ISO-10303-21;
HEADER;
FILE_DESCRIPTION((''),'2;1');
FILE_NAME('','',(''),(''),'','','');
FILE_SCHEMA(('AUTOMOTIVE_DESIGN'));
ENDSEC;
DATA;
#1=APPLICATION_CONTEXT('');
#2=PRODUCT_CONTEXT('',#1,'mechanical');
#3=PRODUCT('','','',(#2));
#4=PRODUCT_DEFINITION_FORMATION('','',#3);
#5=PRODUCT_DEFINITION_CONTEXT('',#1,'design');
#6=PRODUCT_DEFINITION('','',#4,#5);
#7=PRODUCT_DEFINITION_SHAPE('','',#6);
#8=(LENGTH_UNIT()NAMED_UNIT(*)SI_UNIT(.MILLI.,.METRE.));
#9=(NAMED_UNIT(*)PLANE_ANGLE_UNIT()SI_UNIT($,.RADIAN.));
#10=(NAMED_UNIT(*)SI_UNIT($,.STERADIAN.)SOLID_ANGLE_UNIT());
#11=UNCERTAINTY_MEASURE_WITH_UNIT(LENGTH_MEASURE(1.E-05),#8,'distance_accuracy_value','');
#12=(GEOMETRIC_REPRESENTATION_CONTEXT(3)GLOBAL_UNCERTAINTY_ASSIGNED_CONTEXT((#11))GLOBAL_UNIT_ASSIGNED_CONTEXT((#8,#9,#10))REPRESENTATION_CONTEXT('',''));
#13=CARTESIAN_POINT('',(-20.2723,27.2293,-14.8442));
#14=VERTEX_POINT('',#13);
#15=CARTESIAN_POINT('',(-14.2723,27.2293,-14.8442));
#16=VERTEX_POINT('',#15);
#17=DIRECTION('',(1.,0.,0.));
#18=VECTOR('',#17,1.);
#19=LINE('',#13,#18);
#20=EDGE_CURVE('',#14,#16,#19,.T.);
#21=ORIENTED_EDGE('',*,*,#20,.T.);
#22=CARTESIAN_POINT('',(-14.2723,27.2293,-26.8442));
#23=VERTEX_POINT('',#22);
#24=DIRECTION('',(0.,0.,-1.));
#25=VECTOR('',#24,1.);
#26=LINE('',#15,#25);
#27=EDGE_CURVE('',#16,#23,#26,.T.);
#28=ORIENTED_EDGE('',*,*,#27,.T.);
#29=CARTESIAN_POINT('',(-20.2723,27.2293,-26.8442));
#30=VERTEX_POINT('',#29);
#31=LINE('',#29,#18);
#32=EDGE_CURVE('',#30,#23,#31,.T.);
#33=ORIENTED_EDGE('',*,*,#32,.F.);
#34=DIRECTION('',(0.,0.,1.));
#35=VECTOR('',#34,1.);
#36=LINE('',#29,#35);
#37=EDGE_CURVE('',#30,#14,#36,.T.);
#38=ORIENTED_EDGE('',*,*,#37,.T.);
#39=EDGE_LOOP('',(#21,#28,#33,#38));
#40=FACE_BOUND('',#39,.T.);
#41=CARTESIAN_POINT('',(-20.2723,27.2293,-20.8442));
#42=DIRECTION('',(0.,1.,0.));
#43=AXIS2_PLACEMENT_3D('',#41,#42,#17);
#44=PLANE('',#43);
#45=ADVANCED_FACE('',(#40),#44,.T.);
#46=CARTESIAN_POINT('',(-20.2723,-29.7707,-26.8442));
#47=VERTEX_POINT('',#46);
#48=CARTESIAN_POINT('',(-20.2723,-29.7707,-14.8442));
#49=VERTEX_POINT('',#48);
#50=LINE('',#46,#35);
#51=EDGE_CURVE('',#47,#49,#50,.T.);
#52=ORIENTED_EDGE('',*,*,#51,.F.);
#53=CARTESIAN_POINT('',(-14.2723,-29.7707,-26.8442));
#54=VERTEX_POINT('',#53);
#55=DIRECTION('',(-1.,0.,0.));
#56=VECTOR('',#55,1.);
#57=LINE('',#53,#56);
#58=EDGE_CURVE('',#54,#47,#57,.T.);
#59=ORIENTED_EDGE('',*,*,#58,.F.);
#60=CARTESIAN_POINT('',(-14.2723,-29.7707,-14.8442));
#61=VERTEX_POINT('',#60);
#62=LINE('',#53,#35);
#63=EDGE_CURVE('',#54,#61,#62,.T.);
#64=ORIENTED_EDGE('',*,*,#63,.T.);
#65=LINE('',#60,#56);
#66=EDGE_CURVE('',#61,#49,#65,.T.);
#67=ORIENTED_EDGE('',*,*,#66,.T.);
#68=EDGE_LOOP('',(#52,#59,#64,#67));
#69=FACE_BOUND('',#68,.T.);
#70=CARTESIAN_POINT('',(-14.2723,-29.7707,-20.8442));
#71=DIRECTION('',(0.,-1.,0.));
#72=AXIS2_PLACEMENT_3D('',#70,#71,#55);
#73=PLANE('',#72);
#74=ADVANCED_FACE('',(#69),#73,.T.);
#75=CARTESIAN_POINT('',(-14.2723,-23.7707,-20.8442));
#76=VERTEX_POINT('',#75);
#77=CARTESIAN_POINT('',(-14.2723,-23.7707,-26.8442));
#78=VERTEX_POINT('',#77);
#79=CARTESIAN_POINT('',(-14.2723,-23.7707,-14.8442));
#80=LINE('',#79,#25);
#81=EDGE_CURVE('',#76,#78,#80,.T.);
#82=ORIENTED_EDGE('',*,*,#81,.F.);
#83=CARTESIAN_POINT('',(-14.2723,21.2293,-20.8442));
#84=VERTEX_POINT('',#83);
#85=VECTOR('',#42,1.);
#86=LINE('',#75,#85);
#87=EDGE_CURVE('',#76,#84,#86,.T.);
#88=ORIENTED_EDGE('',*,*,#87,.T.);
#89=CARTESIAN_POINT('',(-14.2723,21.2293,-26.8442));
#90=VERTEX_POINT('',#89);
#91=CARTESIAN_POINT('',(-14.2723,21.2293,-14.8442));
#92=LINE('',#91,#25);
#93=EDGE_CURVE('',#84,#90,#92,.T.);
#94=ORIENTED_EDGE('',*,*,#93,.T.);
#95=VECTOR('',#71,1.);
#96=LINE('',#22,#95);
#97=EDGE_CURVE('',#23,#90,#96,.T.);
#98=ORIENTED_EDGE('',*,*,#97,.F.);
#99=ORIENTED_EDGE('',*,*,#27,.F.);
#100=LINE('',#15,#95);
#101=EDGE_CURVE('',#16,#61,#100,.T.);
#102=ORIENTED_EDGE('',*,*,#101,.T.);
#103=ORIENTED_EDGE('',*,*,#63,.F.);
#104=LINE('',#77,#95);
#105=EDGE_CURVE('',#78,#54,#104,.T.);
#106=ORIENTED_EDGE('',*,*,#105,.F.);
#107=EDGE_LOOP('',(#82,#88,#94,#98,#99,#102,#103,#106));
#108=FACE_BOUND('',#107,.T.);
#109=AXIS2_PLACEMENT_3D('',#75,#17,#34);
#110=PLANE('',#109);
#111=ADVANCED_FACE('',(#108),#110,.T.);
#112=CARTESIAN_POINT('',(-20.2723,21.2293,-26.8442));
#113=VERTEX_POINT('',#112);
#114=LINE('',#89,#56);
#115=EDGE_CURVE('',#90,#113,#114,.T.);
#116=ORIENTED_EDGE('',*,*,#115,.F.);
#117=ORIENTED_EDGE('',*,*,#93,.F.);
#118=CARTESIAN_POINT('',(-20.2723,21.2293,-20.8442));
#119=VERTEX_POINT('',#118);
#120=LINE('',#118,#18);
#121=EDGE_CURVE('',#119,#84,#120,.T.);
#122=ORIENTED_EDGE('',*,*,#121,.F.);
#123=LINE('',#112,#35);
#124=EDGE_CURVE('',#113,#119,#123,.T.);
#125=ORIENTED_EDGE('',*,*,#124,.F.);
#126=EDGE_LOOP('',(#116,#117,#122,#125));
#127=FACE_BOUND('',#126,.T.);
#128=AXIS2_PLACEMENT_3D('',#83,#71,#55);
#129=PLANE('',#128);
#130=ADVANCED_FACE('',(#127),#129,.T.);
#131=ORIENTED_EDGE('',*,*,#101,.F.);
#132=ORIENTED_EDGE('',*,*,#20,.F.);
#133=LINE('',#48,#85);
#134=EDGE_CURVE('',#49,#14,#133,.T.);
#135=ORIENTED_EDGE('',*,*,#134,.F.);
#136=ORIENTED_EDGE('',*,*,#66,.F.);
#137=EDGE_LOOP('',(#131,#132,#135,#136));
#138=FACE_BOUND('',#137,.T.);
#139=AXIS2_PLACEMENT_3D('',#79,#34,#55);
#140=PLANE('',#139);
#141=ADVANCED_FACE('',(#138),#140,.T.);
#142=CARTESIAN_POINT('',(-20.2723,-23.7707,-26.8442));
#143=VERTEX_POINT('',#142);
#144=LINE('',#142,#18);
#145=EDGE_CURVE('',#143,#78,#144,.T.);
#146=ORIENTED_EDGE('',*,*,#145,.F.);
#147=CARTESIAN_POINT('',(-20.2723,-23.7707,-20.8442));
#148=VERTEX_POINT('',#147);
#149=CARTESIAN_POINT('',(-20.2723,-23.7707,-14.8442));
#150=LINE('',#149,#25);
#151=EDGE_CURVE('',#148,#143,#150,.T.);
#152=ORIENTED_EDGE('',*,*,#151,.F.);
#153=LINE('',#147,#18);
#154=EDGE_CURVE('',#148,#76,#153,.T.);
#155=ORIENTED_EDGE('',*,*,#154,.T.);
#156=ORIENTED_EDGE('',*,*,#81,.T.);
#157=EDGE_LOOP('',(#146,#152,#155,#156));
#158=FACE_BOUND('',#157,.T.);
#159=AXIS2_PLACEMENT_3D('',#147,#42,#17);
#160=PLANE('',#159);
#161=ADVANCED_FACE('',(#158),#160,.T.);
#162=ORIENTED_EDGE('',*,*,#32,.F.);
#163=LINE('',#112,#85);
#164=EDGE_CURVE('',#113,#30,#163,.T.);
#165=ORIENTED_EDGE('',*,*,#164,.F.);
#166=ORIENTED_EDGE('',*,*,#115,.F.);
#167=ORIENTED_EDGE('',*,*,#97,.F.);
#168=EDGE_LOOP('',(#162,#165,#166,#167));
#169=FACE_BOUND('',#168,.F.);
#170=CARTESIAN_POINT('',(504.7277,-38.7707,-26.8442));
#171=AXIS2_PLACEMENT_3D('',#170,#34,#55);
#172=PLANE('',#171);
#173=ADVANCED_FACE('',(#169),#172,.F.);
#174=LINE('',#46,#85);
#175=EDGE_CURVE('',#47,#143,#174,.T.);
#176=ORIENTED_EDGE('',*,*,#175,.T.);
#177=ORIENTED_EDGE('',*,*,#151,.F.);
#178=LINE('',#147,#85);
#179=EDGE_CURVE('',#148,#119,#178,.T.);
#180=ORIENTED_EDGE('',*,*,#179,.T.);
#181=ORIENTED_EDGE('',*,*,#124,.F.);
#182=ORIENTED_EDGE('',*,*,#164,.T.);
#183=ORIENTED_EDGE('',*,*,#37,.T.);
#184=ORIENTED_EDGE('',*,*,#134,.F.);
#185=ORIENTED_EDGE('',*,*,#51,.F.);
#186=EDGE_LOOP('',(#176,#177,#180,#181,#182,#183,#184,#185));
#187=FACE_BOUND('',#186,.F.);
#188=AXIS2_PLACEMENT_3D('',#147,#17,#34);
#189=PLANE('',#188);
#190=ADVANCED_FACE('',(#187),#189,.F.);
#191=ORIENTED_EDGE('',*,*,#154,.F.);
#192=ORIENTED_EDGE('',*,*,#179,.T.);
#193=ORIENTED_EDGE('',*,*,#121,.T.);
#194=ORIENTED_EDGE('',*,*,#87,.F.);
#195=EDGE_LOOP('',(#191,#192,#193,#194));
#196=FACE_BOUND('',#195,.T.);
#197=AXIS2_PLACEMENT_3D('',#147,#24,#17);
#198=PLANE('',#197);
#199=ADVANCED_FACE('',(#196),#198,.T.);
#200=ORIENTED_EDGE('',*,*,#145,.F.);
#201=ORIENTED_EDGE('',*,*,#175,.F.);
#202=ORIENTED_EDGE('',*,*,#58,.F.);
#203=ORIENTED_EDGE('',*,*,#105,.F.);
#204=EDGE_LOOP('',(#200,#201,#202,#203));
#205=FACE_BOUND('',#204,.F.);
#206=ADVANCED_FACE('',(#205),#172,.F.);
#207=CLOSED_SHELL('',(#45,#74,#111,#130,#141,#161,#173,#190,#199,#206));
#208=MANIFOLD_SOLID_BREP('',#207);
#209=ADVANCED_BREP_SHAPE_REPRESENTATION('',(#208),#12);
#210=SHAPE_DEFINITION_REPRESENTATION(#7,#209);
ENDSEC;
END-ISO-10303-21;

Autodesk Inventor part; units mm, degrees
ref_plane "YZ Plane" through (0, 0, 0) normal (1, 0, 0) x (0, 1, 0)
ref_plane "XZ Plane" through (0, 0, 0) normal (0, 1, 0) x (-1, 0, 0)
ref_plane "XY Plane" through (0, 0, 0) normal (0, 0, 1) x (1, 0, 0)
ref_plane "Work Plane1" through (504.7277, -38.7707, -20.8442) normal (0, 0, 1) x (-1, 0, 0)
sketch "Sketch1" plane through (504.7277, -38.7707, -20.8442) normal (0, 0, 1) x (-1, 0, 0)
  line L0 (-28.8, -55.1) -> (-22.6, -55.1) projected
  line L1 (-28.8, -72) -> (-28.8, -55.1) projected
  line L2 (-28.8, -72) -> (262.8, -72) projected
  line L3 (262.8, -72) -> (262.8, -78) projected
  line L4 (262.8, -78) -> (-28.8, -78) projected
  line L5 (-28.8, -94.9) -> (-28.8, -78) projected
  line L6 (-13.3962, -94.9) -> (-28.8, -94.9) projected
  line L7 (-8.2, -97.9) -> (-13.3962, -94.9) projected
  line L8 (-8.2, -94.9) -> (-8.2, -97.9) projected
  arc A0 (-6.2, -94.9) -> (-8.2, -94.9) centre (-7.2, -94.9) ccw projected
  line L9 (-6.2, -97.9) -> (-6.2, -94.9) projected
  line L10 (-1.0038, -94.9) -> (-6.2, -97.9) projected
  line L11 (15.4038, -94.9) -> (-1.0038, -94.9) projected
  line L12 (20.6, -97.9) -> (15.4038, -94.9) projected
  line L13 (20.6, -94.9) -> (20.6, -97.9) projected
  arc A1 (22.6, -94.9) -> (20.6, -94.9) centre (21.6, -94.9) ccw projected
  line L14 (22.6, -97.9) -> (22.6, -94.9) projected
  line L15 (27.7962, -94.9) -> (22.6, -97.9) projected
  line L16 (44.2038, -94.9) -> (27.7962, -94.9) projected
  line L17 (49.4, -97.9) -> (44.2038, -94.9) projected
  line L18 (49.4, -94.9) -> (49.4, -97.9) projected
  arc A2 (51.4, -94.9) -> (49.4, -94.9) centre (50.4, -94.9) ccw projected
  line L19 (51.4, -97.9) -> (51.4, -94.9) projected
  line L20 (56.5962, -94.9) -> (51.4, -97.9) projected
  line L21 (73.0038, -94.9) -> (56.5962, -94.9) projected
  line L22 (78.2, -97.9) -> (73.0038, -94.9) projected
  line L23 (78.2, -94.9) -> (78.2, -97.9) projected
  arc A3 (80.2, -94.9) -> (78.2, -94.9) centre (79.2, -94.9) ccw projected
  line L24 (80.2, -97.9) -> (80.2, -94.9) projected
  line L25 (85.3962, -94.9) -> (80.2, -97.9) projected
  line L26 (101.8038, -94.9) -> (85.3962, -94.9) projected
  line L27 (107, -97.9) -> (101.8038, -94.9) projected
  line L28 (107, -94.9) -> (107, -97.9) projected
  arc A4 (109, -94.9) -> (107, -94.9) centre (108, -94.9) ccw projected
  line L29 (109, -97.9) -> (109, -94.9) projected
  line L30 (114.1962, -94.9) -> (109, -97.9) projected
  line L31 (130.6038, -94.9) -> (114.1962, -94.9) projected
  line L32 (135.8, -97.9) -> (130.6038, -94.9) projected
  line L33 (135.8, -94.9) -> (135.8, -97.9) projected
  arc A5 (137.8, -94.9) -> (135.8, -94.9) centre (136.8, -94.9) ccw projected
  line L34 (137.8, -97.9) -> (137.8, -94.9) projected
  line L35 (142.9962, -94.9) -> (137.8, -97.9) projected
  line L36 (159.4038, -94.9) -> (142.9962, -94.9) projected
  line L37 (164.6, -97.9) -> (159.4038, -94.9) projected
  line L38 (164.6, -94.9) -> (164.6, -97.9) projected
  arc A6 (166.6, -94.9) -> (164.6, -94.9) centre (165.6, -94.9) ccw projected
  line L39 (166.6, -97.9) -> (166.6, -94.9) projected
  line L40 (171.7962, -94.9) -> (166.6, -97.9) projected
  line L41 (188.2038, -94.9) -> (171.7962, -94.9) projected
  line L42 (193.4, -97.9) -> (188.2038, -94.9) projected
  line L43 (193.4, -94.9) -> (193.4, -97.9) projected
  arc A7 (195.4, -94.9) -> (193.4, -94.9) centre (194.4, -94.9) ccw projected
  line L44 (195.4, -97.9) -> (195.4, -94.9) projected
  line L45 (200.5962, -94.9) -> (195.4, -97.9) projected
  line L46 (217.0038, -94.9) -> (200.5962, -94.9) projected
  line L47 (222.2, -97.9) -> (217.0038, -94.9) projected
  line L48 (222.2, -94.9) -> (222.2, -97.9) projected
  arc A8 (224.2, -94.9) -> (222.2, -94.9) centre (223.2, -94.9) ccw projected
  line L49 (224.2, -97.9) -> (224.2, -94.9) projected
  line L50 (229.3962, -94.9) -> (224.2, -97.9) projected
  line L51 (245.8038, -94.9) -> (229.3962, -94.9) projected
  line L52 (251, -97.9) -> (245.8038, -94.9) projected
  line L53 (251, -94.9) -> (251, -97.9) projected
  arc A9 (253, -94.9) -> (251, -94.9) centre (252, -94.9) ccw projected
  line L54 (253, -97.9) -> (253, -94.9) projected
  line L55 (258.1962, -94.9) -> (253, -97.9) projected
  line L56 (274.6038, -94.9) -> (258.1962, -94.9) projected
  line L57 (279.8, -97.9) -> (274.6038, -94.9) projected
  line L58 (279.8, -94.9) -> (279.8, -97.9) projected
  arc A10 (281.8, -94.9) -> (279.8, -94.9) centre (280.8, -94.9) ccw projected
  line L59 (281.8, -97.9) -> (281.8, -94.9) projected
  line L60 (286.9962, -94.9) -> (281.8, -97.9) projected
  line L61 (303.4038, -94.9) -> (286.9962, -94.9) projected
  line L62 (308.6, -97.9) -> (303.4038, -94.9) projected
  line L63 (308.6, -94.9) -> (308.6, -97.9) projected
  arc A11 (310.6, -94.9) -> (308.6, -94.9) centre (309.6, -94.9) ccw projected
  line L64 (310.6, -97.9) -> (310.6, -94.9) projected
  line L65 (315.7962, -94.9) -> (310.6, -97.9) projected
  line L66 (332.2038, -94.9) -> (315.7962, -94.9) projected
  line L67 (337.4, -97.9) -> (332.2038, -94.9) projected
  line L68 (337.4, -94.9) -> (337.4, -97.9) projected
  arc A12 (339.4, -94.9) -> (337.4, -94.9) centre (338.4, -94.9) ccw projected
  line L69 (339.4, -97.9) -> (339.4, -94.9) projected
  line L70 (344.5962, -94.9) -> (339.4, -97.9) projected
  line L71 (361.0038, -94.9) -> (344.5962, -94.9) projected
  line L72 (366.2, -97.9) -> (361.0038, -94.9) projected
  line L73 (366.2, -94.9) -> (366.2, -97.9) projected
  arc A13 (368.2, -94.9) -> (366.2, -94.9) centre (367.2, -94.9) ccw projected
  line L74 (368.2, -97.9) -> (368.2, -94.9) projected
  line L75 (373.3962, -94.9) -> (368.2, -97.9) projected
  line L76 (389.8038, -94.9) -> (373.3962, -94.9) projected
  line L77 (395, -97.9) -> (389.8038, -94.9) projected
  line L78 (395, -94.9) -> (395, -97.9) projected
  arc A14 (397, -94.9) -> (395, -94.9) centre (396, -94.9) ccw projected
  line L79 (397, -97.9) -> (397, -94.9) projected
  line L80 (402.1962, -94.9) -> (397, -97.9) projected
  line L81 (418.6038, -94.9) -> (402.1962, -94.9) projected
  line L82 (423.8, -97.9) -> (418.6038, -94.9) projected
  line L83 (423.8, -94.9) -> (423.8, -97.9) projected
  arc A15 (425.8, -94.9) -> (423.8, -94.9) centre (424.8, -94.9) ccw projected
  line L84 (425.8, -97.9) -> (425.8, -94.9) projected
  line L85 (430.9962, -94.9) -> (425.8, -97.9) projected
  line L86 (447.4038, -94.9) -> (430.9962, -94.9) projected
  line L87 (452.6, -97.9) -> (447.4038, -94.9) projected
  line L88 (452.6, -94.9) -> (452.6, -97.9) projected
  arc A16 (454.6, -94.9) -> (452.6, -94.9) centre (453.6, -94.9) ccw projected
  line L89 (454.6, -97.9) -> (454.6, -94.9) projected
  line L90 (459.7962, -94.9) -> (454.6, -97.9) projected
  line L91 (476.2038, -94.9) -> (459.7962, -94.9) projected
  line L92 (481.4, -97.9) -> (476.2038, -94.9) projected
  line L93 (481.4, -94.9) -> (481.4, -97.9) projected
  arc A17 (483.4, -94.9) -> (481.4, -94.9) centre (482.4, -94.9) ccw projected
  line L94 (483.4, -97.9) -> (483.4, -94.9) projected
  line L95 (488.5962, -94.9) -> (483.4, -97.9) projected
  line L96 (505.0038, -94.9) -> (488.5962, -94.9) projected
  line L97 (510.2, -97.9) -> (505.0038, -94.9) projected
  line L98 (510.2, -94.9) -> (510.2, -97.9) projected
  arc A18 (512.2, -94.9) -> (510.2, -94.9) centre (511.2, -94.9) ccw projected
  line L99 (512.2, -97.9) -> (512.2, -94.9) projected
  line L100 (517.3962, -94.9) -> (512.2, -97.9) projected
  line L101 (533.8038, -94.9) -> (517.3962, -94.9) projected
  line L102 (539, -97.9) -> (533.8038, -94.9) projected
  line L103 (539, -94.9) -> (539, -97.9) projected
  arc A19 (541, -94.9) -> (539, -94.9) centre (540, -94.9) ccw projected
  line L104 (541, -97.9) -> (541, -94.9) projected
  line L105 (546.1962, -94.9) -> (541, -97.9) projected
  line L106 (546.1962, -94.9) -> (554.4, -94.9) projected
  line L107 (554.4, -55.1) -> (554.4, -94.9) projected
  line L108 (531.7962, -55.1) -> (554.4, -55.1) projected
  line L109 (526.6, -52.1) -> (531.7962, -55.1) projected
  line L110 (526.6, -55.1) -> (526.6, -52.1) projected
  arc A20 (524.6, -55.1) -> (526.6, -55.1) centre (525.6, -55.1) ccw projected
  line L111 (524.6, -52.1) -> (524.6, -55.1) projected
  line L112 (519.4038, -55.1) -> (524.6, -52.1) projected
  line L113 (502.9962, -55.1) -> (519.4038, -55.1) projected
  line L114 (497.8, -52.1) -> (502.9962, -55.1) projected
  line L115 (497.8, -55.1) -> (497.8, -52.1) projected
  arc A21 (495.8, -55.1) -> (497.8, -55.1) centre (496.8, -55.1) ccw projected
  line L116 (495.8, -52.1) -> (495.8, -55.1) projected
  line L117 (490.6038, -55.1) -> (495.8, -52.1) projected
  line L118 (474.1962, -55.1) -> (490.6038, -55.1) projected
  line L119 (469, -52.1) -> (474.1962, -55.1) projected
  line L120 (469, -55.1) -> (469, -52.1) projected
  arc A22 (467, -55.1) -> (469, -55.1) centre (468, -55.1) ccw projected
  line L121 (467, -52.1) -> (467, -55.1) projected
  line L122 (461.8038, -55.1) -> (467, -52.1) projected
  line L123 (445.3962, -55.1) -> (461.8038, -55.1) projected
  line L124 (440.2, -52.1) -> (445.3962, -55.1) projected
  line L125 (440.2, -55.1) -> (440.2, -52.1) projected
  arc A23 (438.2, -55.1) -> (440.2, -55.1) centre (439.2, -55.1) ccw projected
  line L126 (438.2, -52.1) -> (438.2, -55.1) projected
  line L127 (433.0038, -55.1) -> (438.2, -52.1) projected
  line L128 (416.5962, -55.1) -> (433.0038, -55.1) projected
  line L129 (411.4, -52.1) -> (416.5962, -55.1) projected
  line L130 (411.4, -55.1) -> (411.4, -52.1) projected
  arc A24 (409.4, -55.1) -> (411.4, -55.1) centre (410.4, -55.1) ccw projected
  line L131 (409.4, -52.1) -> (409.4, -55.1) projected
  line L132 (404.2038, -55.1) -> (409.4, -52.1) projected
  line L133 (387.7962, -55.1) -> (404.2038, -55.1) projected
  line L134 (382.6, -52.1) -> (387.7962, -55.1) projected
  line L135 (382.6, -55.1) -> (382.6, -52.1) projected
  arc A25 (380.6, -55.1) -> (382.6, -55.1) centre (381.6, -55.1) ccw projected
  line L136 (380.6, -52.1) -> (380.6, -55.1) projected
  line L137 (375.4038, -55.1) -> (380.6, -52.1) projected
  line L138 (358.9962, -55.1) -> (375.4038, -55.1) projected
  line L139 (353.8, -52.1) -> (358.9962, -55.1) projected
  line L140 (353.8, -55.1) -> (353.8, -52.1) projected
  arc A26 (351.8, -55.1) -> (353.8, -55.1) centre (352.8, -55.1) ccw projected
  line L141 (351.8, -52.1) -> (351.8, -55.1) projected
  line L142 (346.6038, -55.1) -> (351.8, -52.1) projected
  line L143 (330.1962, -55.1) -> (346.6038, -55.1) projected
  line L144 (325, -52.1) -> (330.1962, -55.1) projected
  line L145 (325, -55.1) -> (325, -52.1) projected
  arc A27 (323, -55.1) -> (325, -55.1) centre (324, -55.1) ccw projected
  line L146 (323, -52.1) -> (323, -55.1) projected
  line L147 (317.8038, -55.1) -> (323, -52.1) projected
  line L148 (301.3962, -55.1) -> (317.8038, -55.1) projected
  line L149 (296.2, -52.1) -> (301.3962, -55.1) projected
  line L150 (296.2, -55.1) -> (296.2, -52.1) projected
  arc A28 (294.2, -55.1) -> (296.2, -55.1) centre (295.2, -55.1) ccw projected
  line L151 (294.2, -52.1) -> (294.2, -55.1) projected
  line L152 (289.0038, -55.1) -> (294.2, -52.1) projected
  line L153 (272.5962, -55.1) -> (289.0038, -55.1) projected
  line L154 (267.4, -52.1) -> (272.5962, -55.1) projected
  line L155 (267.4, -55.1) -> (267.4, -52.1) projected
  arc A29 (265.4, -55.1) -> (267.4, -55.1) centre (266.4, -55.1) ccw projected
  line L156 (265.4, -52.1) -> (265.4, -55.1) projected
  line L157 (260.2038, -55.1) -> (265.4, -52.1) projected
  line L158 (243.7962, -55.1) -> (260.2038, -55.1) projected
  line L159 (238.6, -52.1) -> (243.7962, -55.1) projected
  line L160 (238.6, -55.1) -> (238.6, -52.1) projected
  arc A30 (236.6, -55.1) -> (238.6, -55.1) centre (237.6, -55.1) ccw projected
  line L161 (236.6, -52.1) -> (236.6, -55.1) projected
  line L162 (231.4038, -55.1) -> (236.6, -52.1) projected
  line L163 (214.9962, -55.1) -> (231.4038, -55.1) projected
  line L164 (209.8, -52.1) -> (214.9962, -55.1) projected
  line L165 (209.8, -55.1) -> (209.8, -52.1) projected
  arc A31 (207.8, -55.1) -> (209.8, -55.1) centre (208.8, -55.1) ccw projected
  line L166 (207.8, -52.1) -> (207.8, -55.1) projected
  line L167 (202.6038, -55.1) -> (207.8, -52.1) projected
  line L168 (186.1962, -55.1) -> (202.6038, -55.1) projected
  line L169 (181, -52.1) -> (186.1962, -55.1) projected
  line L170 (181, -55.1) -> (181, -52.1) projected
  arc A32 (179, -55.1) -> (181, -55.1) centre (180, -55.1) ccw projected
  line L171 (179, -52.1) -> (179, -55.1) projected
  line L172 (173.8038, -55.1) -> (179, -52.1) projected
  line L173 (157.3962, -55.1) -> (173.8038, -55.1) projected
  line L174 (152.2, -52.1) -> (157.3962, -55.1) projected
  line L175 (152.2, -55.1) -> (152.2, -52.1) projected
  arc A33 (150.2, -55.1) -> (152.2, -55.1) centre (151.2, -55.1) ccw projected
  line L176 (150.2, -52.1) -> (150.2, -55.1) projected
  line L177 (145.0038, -55.1) -> (150.2, -52.1) projected
  line L178 (128.5962, -55.1) -> (145.0038, -55.1) projected
  line L179 (123.4, -52.1) -> (128.5962, -55.1) projected
  line L180 (123.4, -55.1) -> (123.4, -52.1) projected
  arc A34 (121.4, -55.1) -> (123.4, -55.1) centre (122.4, -55.1) ccw projected
  line L181 (121.4, -52.1) -> (121.4, -55.1) projected
  line L182 (116.2038, -55.1) -> (121.4, -52.1) projected
  line L183 (99.7962, -55.1) -> (116.2038, -55.1) projected
  line L184 (94.6, -52.1) -> (99.7962, -55.1) projected
  line L185 (94.6, -55.1) -> (94.6, -52.1) projected
  arc A35 (92.6, -55.1) -> (94.6, -55.1) centre (93.6, -55.1) ccw projected
  line L186 (92.6, -52.1) -> (92.6, -55.1) projected
  line L187 (87.4038, -55.1) -> (92.6, -52.1) projected
  line L188 (70.9962, -55.1) -> (87.4038, -55.1) projected
  line L189 (65.8, -52.1) -> (70.9962, -55.1) projected
  line L190 (65.8, -55.1) -> (65.8, -52.1) projected
  arc A36 (63.8, -55.1) -> (65.8, -55.1) centre (64.8, -55.1) ccw projected
  line L191 (63.8, -52.1) -> (63.8, -55.1) projected
  line L192 (58.6038, -55.1) -> (63.8, -52.1) projected
  line L193 (42.1962, -55.1) -> (58.6038, -55.1) projected
  line L194 (37, -52.1) -> (42.1962, -55.1) projected
  line L195 (37, -55.1) -> (37, -52.1) projected
  arc A37 (35, -55.1) -> (37, -55.1) centre (36, -55.1) ccw projected
  line L196 (35, -52.1) -> (35, -55.1) projected
  line L197 (29.8038, -55.1) -> (35, -52.1) projected
  line L198 (13.3962, -55.1) -> (29.8038, -55.1) projected
  line L199 (8.2, -52.1) -> (13.3962, -55.1) projected
  line L200 (8.2, -55.1) -> (8.2, -52.1) projected
  arc A38 (6.2, -55.1) -> (8.2, -55.1) centre (7.2, -55.1) ccw projected
  line L201 (6.2, -52.1) -> (6.2, -55.1) projected
  line L202 (1.0038, -55.1) -> (6.2, -52.1) projected
  line L203 (-15.4038, -55.1) -> (1.0038, -55.1) projected
  line L204 (-20.6, -52.1) -> (-15.4038, -55.1) projected
  line L205 (-20.6, -55.1) -> (-20.6, -52.1) projected
  arc A39 (-22.6, -55.1) -> (-20.6, -55.1) centre (-21.6, -55.1) ccw projected
  line L206 (525, -66) -> (519, -66) projected
  line L207 (519, -66) -> (519, -60) projected
  line L208 (519, -60) -> (525, -60) projected
  line L209 (525, -60) -> (525, -66) projected
  line L210 (525, -84) -> (525, -90) projected
  line L211 (525, -90) -> (519, -90) projected
  line L212 (519, -90) -> (519, -84) projected
  line L213 (519, -84) -> (525, -84) projected
  line L214 (467.4, -66) -> (461.4, -66) projected
  line L215 (461.4, -66) -> (461.4, -60) projected
  line L216 (461.4, -60) -> (467.4, -60) projected
  line L217 (467.4, -60) -> (467.4, -66) projected
  line L218 (467.4, -84) -> (467.4, -90) projected
  line L219 (467.4, -90) -> (461.4, -90) projected
  line L220 (461.4, -90) -> (461.4, -84) projected
  line L221 (461.4, -84) -> (467.4, -84) projected
  line L222 (409.8, -66) -> (403.8, -66) projected
  line L223 (403.8, -66) -> (403.8, -60) projected
  line L224 (403.8, -60) -> (409.8, -60) projected
  line L225 (409.8, -60) -> (409.8, -66) projected
  line L226 (409.8, -84) -> (409.8, -90) projected
  line L227 (409.8, -90) -> (403.8, -90) projected
  line L228 (403.8, -90) -> (403.8, -84) projected
  line L229 (403.8, -84) -> (409.8, -84) projected
  line L230 (352.2, -66) -> (346.2, -66) projected
  line L231 (346.2, -66) -> (346.2, -60) projected
  line L232 (346.2, -60) -> (352.2, -60) projected
  line L233 (352.2, -60) -> (352.2, -66) projected
  line L234 (352.2, -84) -> (352.2, -90) projected
  line L235 (352.2, -90) -> (346.2, -90) projected
  line L236 (346.2, -90) -> (346.2, -84) projected
  line L237 (346.2, -84) -> (352.2, -84) projected
  line L238 (294.6, -66) -> (288.6, -66) projected
  line L239 (288.6, -66) -> (288.6, -60) projected
  line L240 (288.6, -60) -> (294.6, -60) projected
  line L241 (294.6, -60) -> (294.6, -66) projected
  line L242 (294.6, -84) -> (294.6, -90) projected
  line L243 (294.6, -90) -> (288.6, -90) projected
  line L244 (288.6, -90) -> (288.6, -84) projected
  line L245 (288.6, -84) -> (294.6, -84) projected
  line L246 (237, -66) -> (231, -66) projected
  line L247 (231, -66) -> (231, -60) projected
  line L248 (231, -60) -> (237, -60) projected
  line L249 (237, -60) -> (237, -66) projected
  line L250 (237, -84) -> (237, -90) projected
  line L251 (237, -90) -> (231, -90) projected
  line L252 (231, -90) -> (231, -84) projected
  line L253 (231, -84) -> (237, -84) projected
  line L254 (179.4, -66) -> (173.4, -66) projected
  line L255 (173.4, -66) -> (173.4, -60) projected
  line L256 (173.4, -60) -> (179.4, -60) projected
  line L257 (179.4, -60) -> (179.4, -66) projected
  line L258 (179.4, -84) -> (179.4, -90) projected
  line L259 (179.4, -90) -> (173.4, -90) projected
  line L260 (173.4, -90) -> (173.4, -84) projected
  line L261 (173.4, -84) -> (179.4, -84) projected
  line L262 (121.8, -66) -> (115.8, -66) projected
  line L263 (115.8, -66) -> (115.8, -60) projected
  line L264 (115.8, -60) -> (121.8, -60) projected
  line L265 (121.8, -60) -> (121.8, -66) projected
  line L266 (121.8, -84) -> (121.8, -90) projected
  line L267 (121.8, -90) -> (115.8, -90) projected
  line L268 (115.8, -90) -> (115.8, -84) projected
  line L269 (115.8, -84) -> (121.8, -84) projected
  line L270 (64.2, -66) -> (58.2, -66) projected
  line L271 (58.2, -66) -> (58.2, -60) projected
  line L272 (58.2, -60) -> (64.2, -60) projected
  line L273 (64.2, -60) -> (64.2, -66) projected
  line L274 (64.2, -84) -> (64.2, -90) projected
  line L275 (64.2, -90) -> (58.2, -90) projected
  line L276 (58.2, -90) -> (58.2, -84) projected
  line L277 (58.2, -84) -> (64.2, -84) projected
  line L278 (6.6, -66) -> (0.6, -66) projected
  line L279 (0.6, -66) -> (0.6, -60) projected
  line L280 (0.6, -60) -> (6.6, -60) projected
  line L281 (6.6, -60) -> (6.6, -66) projected
  line L282 (6.6, -84) -> (6.6, -90) projected
  line L283 (6.6, -90) -> (0.6, -90) projected
  line L284 (0.6, -90) -> (0.6, -84) projected
  line L285 (0.6, -84) -> (6.6, -84) projected
  line L286 (-28.8, 19.9) -> (-22.6, 19.9) projected
  line L287 (-28.8, 3) -> (-28.8, 19.9) projected
  line L288 (-28.8, 3) -> (262.8, 3) projected
  line L289 (262.8, 3) -> (262.8, -3) projected
  line L290 (262.8, -3) -> (-28.8, -3) projected
  line L291 (-28.8, -19.9) -> (-28.8, -3) projected
  line L292 (-13.3962, -19.9) -> (-28.8, -19.9) projected
  line L293 (-8.2, -22.9) -> (-13.3962, -19.9) projected
  line L294 (-8.2, -19.9) -> (-8.2, -22.9) projected
  arc A40 (-6.2, -19.9) -> (-8.2, -19.9) centre (-7.2, -19.9) ccw projected
  line L295 (-6.2, -22.9) -> (-6.2, -19.9) projected
  line L296 (-1.0038, -19.9) -> (-6.2, -22.9) projected
  line L297 (15.4038, -19.9) -> (-1.0038, -19.9) projected
  line L298 (20.6, -22.9) -> (15.4038, -19.9) projected
  line L299 (20.6, -19.9) -> (20.6, -22.9) projected
  arc A41 (22.6, -19.9) -> (20.6, -19.9) centre (21.6, -19.9) ccw projected
  line L300 (22.6, -22.9) -> (22.6, -19.9) projected
  line L301 (27.7962, -19.9) -> (22.6, -22.9) projected
  line L302 (44.2038, -19.9) -> (27.7962, -19.9) projected
  line L303 (49.4, -22.9) -> (44.2038, -19.9) projected
  line L304 (49.4, -19.9) -> (49.4, -22.9) projected
  arc A42 (51.4, -19.9) -> (49.4, -19.9) centre (50.4, -19.9) ccw projected
  line L305 (51.4, -22.9) -> (51.4, -19.9) projected
  line L306 (56.5962, -19.9) -> (51.4, -22.9) projected
  line L307 (73.0038, -19.9) -> (56.5962, -19.9) projected
  line L308 (78.2, -22.9) -> (73.0038, -19.9) projected
  line L309 (78.2, -19.9) -> (78.2, -22.9) projected
  arc A43 (80.2, -19.9) -> (78.2, -19.9) centre (79.2, -19.9) ccw projected
  line L310 (80.2, -22.9) -> (80.2, -19.9) projected
  line L311 (85.3962, -19.9) -> (80.2, -22.9) projected
  line L312 (101.8038, -19.9) -> (85.3962, -19.9) projected
  line L313 (107, -22.9) -> (101.8038, -19.9) projected
  line L314 (107, -19.9) -> (107, -22.9) projected
  arc A44 (109, -19.9) -> (107, -19.9) centre (108, -19.9) ccw projected
  line L315 (109, -22.9) -> (109, -19.9) projected
  line L316 (114.1962, -19.9) -> (109, -22.9) projected
  line L317 (130.6038, -19.9) -> (114.1962, -19.9) projected
  line L318 (135.8, -22.9) -> (130.6038, -19.9) projected
  line L319 (135.8, -19.9) -> (135.8, -22.9) projected
  arc A45 (137.8, -19.9) -> (135.8, -19.9) centre (136.8, -19.9) ccw projected
  line L320 (137.8, -22.9) -> (137.8, -19.9) projected
  line L321 (142.9962, -19.9) -> (137.8, -22.9) projected
  line L322 (159.4038, -19.9) -> (142.9962, -19.9) projected
  line L323 (164.6, -22.9) -> (159.4038, -19.9) projected
  line L324 (164.6, -19.9) -> (164.6, -22.9) projected
  arc A46 (166.6, -19.9) -> (164.6, -19.9) centre (165.6, -19.9) ccw projected
  line L325 (166.6, -22.9) -> (166.6, -19.9) projected
  line L326 (171.7962, -19.9) -> (166.6, -22.9) projected
  line L327 (188.2038, -19.9) -> (171.7962, -19.9) projected
  line L328 (193.4, -22.9) -> (188.2038, -19.9) projected
  line L329 (193.4, -19.9) -> (193.4, -22.9) projected
  arc A47 (195.4, -19.9) -> (193.4, -19.9) centre (194.4, -19.9) ccw projected
  line L330 (195.4, -22.9) -> (195.4, -19.9) projected
  line L331 (200.5962, -19.9) -> (195.4, -22.9) projected
  line L332 (217.0038, -19.9) -> (200.5962, -19.9) projected
  line L333 (222.2, -22.9) -> (217.0038, -19.9) projected
  line L334 (222.2, -19.9) -> (222.2, -22.9) projected
  arc A48 (224.2, -19.9) -> (222.2, -19.9) centre (223.2, -19.9) ccw projected
  line L335 (224.2, -22.9) -> (224.2, -19.9) projected
  line L336 (229.3962, -19.9) -> (224.2, -22.9) projected
  line L337 (245.8038, -19.9) -> (229.3962, -19.9) projected
  line L338 (251, -22.9) -> (245.8038, -19.9) projected
  line L339 (251, -19.9) -> (251, -22.9) projected
  arc A49 (253, -19.9) -> (251, -19.9) centre (252, -19.9) ccw projected
  line L340 (253, -22.9) -> (253, -19.9) projected
  line L341 (258.1962, -19.9) -> (253, -22.9) projected
  line L342 (274.6038, -19.9) -> (258.1962, -19.9) projected
  line L343 (279.8, -22.9) -> (274.6038, -19.9) projected
  line L344 (279.8, -19.9) -> (279.8, -22.9) projected
  arc A50 (281.8, -19.9) -> (279.8, -19.9) centre (280.8, -19.9) ccw projected
  line L345 (281.8, -22.9) -> (281.8, -19.9) projected
  line L346 (286.9962, -19.9) -> (281.8, -22.9) projected
  line L347 (303.4038, -19.9) -> (286.9962, -19.9) projected
  line L348 (308.6, -22.9) -> (303.4038, -19.9) projected
  line L349 (308.6, -19.9) -> (308.6, -22.9) projected
  arc A51 (310.6, -19.9) -> (308.6, -19.9) centre (309.6, -19.9) ccw projected
  line L350 (310.6, -22.9) -> (310.6, -19.9) projected
  line L351 (315.7962, -19.9) -> (310.6, -22.9) projected
  line L352 (332.2038, -19.9) -> (315.7962, -19.9) projected
  line L353 (337.4, -22.9) -> (332.2038, -19.9) projected
  line L354 (337.4, -19.9) -> (337.4, -22.9) projected
  arc A52 (339.4, -19.9) -> (337.4, -19.9) centre (338.4, -19.9) ccw projected
  line L355 (339.4, -22.9) -> (339.4, -19.9) projected
  line L356 (344.5962, -19.9) -> (339.4, -22.9) projected
  line L357 (361.0038, -19.9) -> (344.5962, -19.9) projected
  line L358 (366.2, -22.9) -> (361.0038, -19.9) projected
  line L359 (366.2, -19.9) -> (366.2, -22.9) projected
  arc A53 (368.2, -19.9) -> (366.2, -19.9) centre (367.2, -19.9) ccw projected
  line L360 (368.2, -22.9) -> (368.2, -19.9) projected
  line L361 (373.3962, -19.9) -> (368.2, -22.9) projected
  line L362 (389.8038, -19.9) -> (373.3962, -19.9) projected
  line L363 (395, -22.9) -> (389.8038, -19.9) projected
  line L364 (395, -19.9) -> (395, -22.9) projected
  arc A54 (397, -19.9) -> (395, -19.9) centre (396, -19.9) ccw projected
  line L365 (397, -22.9) -> (397, -19.9) projected
  line L366 (402.1962, -19.9) -> (397, -22.9) projected
  line L367 (418.6038, -19.9) -> (402.1962, -19.9) projected
  line L368 (423.8, -22.9) -> (418.6038, -19.9) projected
  line L369 (423.8, -19.9) -> (423.8, -22.9) projected
  arc A55 (425.8, -19.9) -> (423.8, -19.9) centre (424.8, -19.9) ccw projected
  line L370 (425.8, -22.9) -> (425.8, -19.9) projected
  line L371 (430.9962, -19.9) -> (425.8, -22.9) projected
  line L372 (447.4038, -19.9) -> (430.9962, -19.9) projected
  line L373 (452.6, -22.9) -> (447.4038, -19.9) projected
  line L374 (452.6, -19.9) -> (452.6, -22.9) projected
  arc A56 (454.6, -19.9) -> (452.6, -19.9) centre (453.6, -19.9) ccw projected
  line L375 (454.6, -22.9) -> (454.6, -19.9) projected
  line L376 (459.7962, -19.9) -> (454.6, -22.9) projected
  line L377 (476.2038, -19.9) -> (459.7962, -19.9) projected
  line L378 (481.4, -22.9) -> (476.2038, -19.9) projected
  line L379 (481.4, -19.9) -> (481.4, -22.9) projected
  arc A57 (483.4, -19.9) -> (481.4, -19.9) centre (482.4, -19.9) ccw projected
  line L380 (483.4, -22.9) -> (483.4, -19.9) projected
  line L381 (488.5962, -19.9) -> (483.4, -22.9) projected
  line L382 (505.0038, -19.9) -> (488.5962, -19.9) projected
  line L383 (510.2, -22.9) -> (505.0038, -19.9) projected
  line L384 (510.2, -19.9) -> (510.2, -22.9) projected
  arc A58 (512.2, -19.9) -> (510.2, -19.9) centre (511.2, -19.9) ccw projected
  line L385 (512.2, -22.9) -> (512.2, -19.9) projected
  line L386 (517.3962, -19.9) -> (512.2, -22.9) projected
  line L387 (533.8038, -19.9) -> (517.3962, -19.9) projected
  line L388 (539, -22.9) -> (533.8038, -19.9) projected
  line L389 (539, -19.9) -> (539, -22.9) projected
  arc A59 (541, -19.9) -> (539, -19.9) centre (540, -19.9) ccw projected
  line L390 (541, -22.9) -> (541, -19.9) projected
  line L391 (546.1962, -19.9) -> (541, -22.9) projected
  line L392 (546.1962, -19.9) -> (554.4, -19.9) projected
  line L393 (554.4, 19.9) -> (554.4, -19.9) projected
  line L394 (531.7962, 19.9) -> (554.4, 19.9) projected
  line L395 (526.6, 22.9) -> (531.7962, 19.9) projected
  line L396 (526.6, 19.9) -> (526.6, 22.9) projected
  arc A60 (524.6, 19.9) -> (526.6, 19.9) centre (525.6, 19.9) ccw projected
  line L397 (524.6, 22.9) -> (524.6, 19.9) projected
  line L398 (519.4038, 19.9) -> (524.6, 22.9) projected
  line L399 (502.9962, 19.9) -> (519.4038, 19.9) projected
  line L400 (497.8, 22.9) -> (502.9962, 19.9) projected
  line L401 (497.8, 19.9) -> (497.8, 22.9) projected
  arc A61 (495.8, 19.9) -> (497.8, 19.9) centre (496.8, 19.9) ccw projected
  line L402 (495.8, 22.9) -> (495.8, 19.9) projected
  line L403 (490.6038, 19.9) -> (495.8, 22.9) projected
  line L404 (474.1962, 19.9) -> (490.6038, 19.9) projected
  line L405 (469, 22.9) -> (474.1962, 19.9) projected
  line L406 (469, 19.9) -> (469, 22.9) projected
  arc A62 (467, 19.9) -> (469, 19.9) centre (468, 19.9) ccw projected
  line L407 (467, 22.9) -> (467, 19.9) projected
  line L408 (461.8038, 19.9) -> (467, 22.9) projected
  line L409 (445.3962, 19.9) -> (461.8038, 19.9) projected
  line L410 (440.2, 22.9) -> (445.3962, 19.9) projected
  line L411 (440.2, 19.9) -> (440.2, 22.9) projected
  arc A63 (438.2, 19.9) -> (440.2, 19.9) centre (439.2, 19.9) ccw projected
  line L412 (438.2, 22.9) -> (438.2, 19.9) projected
  line L413 (433.0038, 19.9) -> (438.2, 22.9) projected
  line L414 (416.5962, 19.9) -> (433.0038, 19.9) projected
  line L415 (411.4, 22.9) -> (416.5962, 19.9) projected
  line L416 (411.4, 19.9) -> (411.4, 22.9) projected
  arc A64 (409.4, 19.9) -> (411.4, 19.9) centre (410.4, 19.9) ccw projected
  line L417 (409.4, 22.9) -> (409.4, 19.9) projected
  line L418 (404.2038, 19.9) -> (409.4, 22.9) projected
  line L419 (387.7962, 19.9) -> (404.2038, 19.9) projected
  line L420 (382.6, 22.9) -> (387.7962, 19.9) projected
  line L421 (382.6, 19.9) -> (382.6, 22.9) projected
  arc A65 (380.6, 19.9) -> (382.6, 19.9) centre (381.6, 19.9) ccw projected
  line L422 (380.6, 22.9) -> (380.6, 19.9) projected
  line L423 (375.4038, 19.9) -> (380.6, 22.9) projected
  line L424 (358.9962, 19.9) -> (375.4038, 19.9) projected
  line L425 (353.8, 22.9) -> (358.9962, 19.9) projected
  line L426 (353.8, 19.9) -> (353.8, 22.9) projected
  arc A66 (351.8, 19.9) -> (353.8, 19.9) centre (352.8, 19.9) ccw projected
  line L427 (351.8, 22.9) -> (351.8, 19.9) projected
  line L428 (346.6038, 19.9) -> (351.8, 22.9) projected
  line L429 (330.1962, 19.9) -> (346.6038, 19.9) projected
  line L430 (325, 22.9) -> (330.1962, 19.9) projected
  line L431 (325, 19.9) -> (325, 22.9) projected
  arc A67 (323, 19.9) -> (325, 19.9) centre (324, 19.9) ccw projected
  line L432 (323, 22.9) -> (323, 19.9) projected
  line L433 (317.8038, 19.9) -> (323, 22.9) projected
  line L434 (301.3962, 19.9) -> (317.8038, 19.9) projected
  line L435 (296.2, 22.9) -> (301.3962, 19.9) projected
  line L436 (296.2, 19.9) -> (296.2, 22.9) projected
  arc A68 (294.2, 19.9) -> (296.2, 19.9) centre (295.2, 19.9) ccw projected
  line L437 (294.2, 22.9) -> (294.2, 19.9) projected
  line L438 (289.0038, 19.9) -> (294.2, 22.9) projected
  line L439 (272.5962, 19.9) -> (289.0038, 19.9) projected
  line L440 (267.4, 22.9) -> (272.5962, 19.9) projected
  line L441 (267.4, 19.9) -> (267.4, 22.9) projected
  arc A69 (265.4, 19.9) -> (267.4, 19.9) centre (266.4, 19.9) ccw projected
  line L442 (265.4, 22.9) -> (265.4, 19.9) projected
  line L443 (260.2038, 19.9) -> (265.4, 22.9) projected
  line L444 (243.7962, 19.9) -> (260.2038, 19.9) projected
  line L445 (238.6, 22.9) -> (243.7962, 19.9) projected
  line L446 (238.6, 19.9) -> (238.6, 22.9) projected
  arc A70 (236.6, 19.9) -> (238.6, 19.9) centre (237.6, 19.9) ccw projected
  line L447 (236.6, 22.9) -> (236.6, 19.9) projected
  line L448 (231.4038, 19.9) -> (236.6, 22.9) projected
  line L449 (214.9962, 19.9) -> (231.4038, 19.9) projected
  line L450 (209.8, 22.9) -> (214.9962, 19.9) projected
  line L451 (209.8, 19.9) -> (209.8, 22.9) projected
  arc A71 (207.8, 19.9) -> (209.8, 19.9) centre (208.8, 19.9) ccw projected
  line L452 (207.8, 22.9) -> (207.8, 19.9) projected
  line L453 (202.6038, 19.9) -> (207.8, 22.9) projected
  line L454 (186.1962, 19.9) -> (202.6038, 19.9) projected
  line L455 (181, 22.9) -> (186.1962, 19.9) projected
  line L456 (181, 19.9) -> (181, 22.9) projected
  arc A72 (179, 19.9) -> (181, 19.9) centre (180, 19.9) ccw projected
  line L457 (179, 22.9) -> (179, 19.9) projected
  line L458 (173.8038, 19.9) -> (179, 22.9) projected
  line L459 (157.3962, 19.9) -> (173.8038, 19.9) projected
  line L460 (152.2, 22.9) -> (157.3962, 19.9) projected
  line L461 (152.2, 19.9) -> (152.2, 22.9) projected
  arc A73 (150.2, 19.9) -> (152.2, 19.9) centre (151.2, 19.9) ccw projected
  line L462 (150.2, 22.9) -> (150.2, 19.9) projected
  line L463 (145.0038, 19.9) -> (150.2, 22.9) projected
  line L464 (128.5962, 19.9) -> (145.0038, 19.9) projected
  line L465 (123.4, 22.9) -> (128.5962, 19.9) projected
  line L466 (123.4, 19.9) -> (123.4, 22.9) projected
  arc A74 (121.4, 19.9) -> (123.4, 19.9) centre (122.4, 19.9) ccw projected
  line L467 (121.4, 22.9) -> (121.4, 19.9) projected
  line L468 (116.2038, 19.9) -> (121.4, 22.9) projected
  line L469 (99.7962, 19.9) -> (116.2038, 19.9) projected
  line L470 (94.6, 22.9) -> (99.7962, 19.9) projected
  line L471 (94.6, 19.9) -> (94.6, 22.9) projected
  arc A75 (92.6, 19.9) -> (94.6, 19.9) centre (93.6, 19.9) ccw projected
  line L472 (92.6, 22.9) -> (92.6, 19.9) projected
  line L473 (87.4038, 19.9) -> (92.6, 22.9) projected
  line L474 (70.9962, 19.9) -> (87.4038, 19.9) projected
  line L475 (65.8, 22.9) -> (70.9962, 19.9) projected
  line L476 (65.8, 19.9) -> (65.8, 22.9) projected
  arc A76 (63.8, 19.9) -> (65.8, 19.9) centre (64.8, 19.9) ccw projected
  line L477 (63.8, 22.9) -> (63.8, 19.9) projected
  line L478 (58.6038, 19.9) -> (63.8, 22.9) projected
  line L479 (42.1962, 19.9) -> (58.6038, 19.9) projected
  line L480 (37, 22.9) -> (42.1962, 19.9) projected
  line L481 (37, 19.9) -> (37, 22.9) projected
  arc A77 (35, 19.9) -> (37, 19.9) centre (36, 19.9) ccw projected
  line L482 (35, 22.9) -> (35, 19.9) projected
  line L483 (29.8038, 19.9) -> (35, 22.9) projected
  line L484 (13.3962, 19.9) -> (29.8038, 19.9) projected
  line L485 (8.2, 22.9) -> (13.3962, 19.9) projected
  line L486 (8.2, 19.9) -> (8.2, 22.9) projected
  arc A78 (6.2, 19.9) -> (8.2, 19.9) centre (7.2, 19.9) ccw projected
  line L487 (6.2, 22.9) -> (6.2, 19.9) projected
  line L488 (1.0038, 19.9) -> (6.2, 22.9) projected
  line L489 (-15.4038, 19.9) -> (1.0038, 19.9) projected
  line L490 (-20.6, 22.9) -> (-15.4038, 19.9) projected
  line L491 (-20.6, 19.9) -> (-20.6, 22.9) projected
  arc A79 (-22.6, 19.9) -> (-20.6, 19.9) centre (-21.6, 19.9) ccw projected
  line L492 (525, 9) -> (519, 9) projected
  line L493 (519, 9) -> (519, 15) projected
  line L494 (519, 15) -> (525, 15) projected
  line L495 (525, 15) -> (525, 9) projected
  line L496 (525, -9) -> (525, -15) projected
  line L497 (525, -15) -> (519, -15) projected
  line L498 (519, -15) -> (519, -9) projected
  line L499 (519, -9) -> (525, -9) projected
  line L500 (467.4, 9) -> (461.4, 9) projected
  line L501 (461.4, 9) -> (461.4, 15) projected
  line L502 (461.4, 15) -> (467.4, 15) projected
  line L503 (467.4, 15) -> (467.4, 9) projected
  line L504 (467.4, -9) -> (467.4, -15) projected
  line L505 (467.4, -15) -> (461.4, -15) projected
  line L506 (461.4, -15) -> (461.4, -9) projected
  line L507 (461.4, -9) -> (467.4, -9) projected
  line L508 (409.8, 9) -> (403.8, 9) projected
  line L509 (403.8, 9) -> (403.8, 15) projected
  line L510 (403.8, 15) -> (409.8, 15) projected
  line L511 (409.8, 15) -> (409.8, 9) projected
  line L512 (409.8, -9) -> (409.8, -15) projected
  line L513 (409.8, -15) -> (403.8, -15) projected
  line L514 (403.8, -15) -> (403.8, -9) projected
  line L515 (403.8, -9) -> (409.8, -9) projected
  line L516 (352.2, 9) -> (346.2, 9) projected
  line L517 (346.2, 9) -> (346.2, 15) projected
  line L518 (346.2, 15) -> (352.2, 15) projected
  line L519 (352.2, 15) -> (352.2, 9) projected
  line L520 (352.2, -9) -> (352.2, -15) projected
  line L521 (352.2, -15) -> (346.2, -15) projected
  line L522 (346.2, -15) -> (346.2, -9) projected
  line L523 (346.2, -9) -> (352.2, -9) projected
  line L524 (294.6, 9) -> (288.6, 9) projected
  line L525 (288.6, 9) -> (288.6, 15) projected
  line L526 (288.6, 15) -> (294.6, 15) projected
  line L527 (294.6, 15) -> (294.6, 9) projected
  line L528 (294.6, -9) -> (294.6, -15) projected
  line L529 (294.6, -15) -> (288.6, -15) projected
  line L530 (288.6, -15) -> (288.6, -9) projected
  line L531 (288.6, -9) -> (294.6, -9) projected
  line L532 (237, 9) -> (231, 9) projected
  line L533 (231, 9) -> (231, 15) projected
  line L534 (231, 15) -> (237, 15) projected
  line L535 (237, 15) -> (237, 9) projected
  line L536 (237, -9) -> (237, -15) projected
  line L537 (237, -15) -> (231, -15) projected
  line L538 (231, -15) -> (231, -9) projected
  line L539 (231, -9) -> (237, -9) projected
  line L540 (179.4, 9) -> (173.4, 9) projected
  line L541 (173.4, 9) -> (173.4, 15) projected
  line L542 (173.4, 15) -> (179.4, 15) projected
  line L543 (179.4, 15) -> (179.4, 9) projected
  line L544 (179.4, -9) -> (179.4, -15) projected
  line L545 (179.4, -15) -> (173.4, -15) projected
  line L546 (173.4, -15) -> (173.4, -9) projected
  line L547 (173.4, -9) -> (179.4, -9) projected
  line L548 (121.8, 9) -> (115.8, 9) projected
  line L549 (115.8, 9) -> (115.8, 15) projected
  line L550 (115.8, 15) -> (121.8, 15) projected
  line L551 (121.8, 15) -> (121.8, 9) projected
  line L552 (121.8, -9) -> (121.8, -15) projected
  line L553 (121.8, -15) -> (115.8, -15) projected
  line L554 (115.8, -15) -> (115.8, -9) projected
  line L555 (115.8, -9) -> (121.8, -9) projected
  line L556 (64.2, 9) -> (58.2, 9) projected
  line L557 (58.2, 9) -> (58.2, 15) projected
  line L558 (58.2, 15) -> (64.2, 15) projected
  line L559 (64.2, 15) -> (64.2, 9) projected
  line L560 (64.2, -9) -> (64.2, -15) projected
  line L561 (64.2, -15) -> (58.2, -15) projected
  line L562 (58.2, -15) -> (58.2, -9) projected
  line L563 (58.2, -9) -> (64.2, -9) projected
  line L564 (6.6, 9) -> (0.6, 9) projected
  line L565 (0.6, 9) -> (0.6, 15) projected
  line L566 (0.6, 15) -> (6.6, 15) projected
  line L567 (6.6, 15) -> (6.6, 9) projected
  line L568 (6.6, -9) -> (6.6, -15) projected
  line L569 (6.6, -15) -> (0.6, -15) projected
  line L570 (0.6, -15) -> (0.6, -9) projected
  line L571 (0.6, -9) -> (6.6, -9) projected
  point P0 (504.7277, -38.7707)
extrude "Extrusion1" add sketch "Sketch1" along normal mid plane 12 contours L206 L207 L208 L209 | L496 L497 L498 L499
sketch "Sketch2" plane through (-20.2723, -23.7707, -14.8442) normal (0, 1, 0) x (1, 0, 0)
  line L0 (0, 12) -> (0, 0) projected
  line L1 (6, 12) -> (6, 0) projected
  line L2 (0, 6) -> (6, 6)
  line L3 (6, 6) -> (6, 0)
  line L4 (6, 0) -> (0, 0)
  line L5 (0, 0) -> (0, 6)
  point P0 (20.2723, -14.8442)
  point P1 (0, 0)
  point P2 (6, 6)
extrude "Extrusion2" add sketch "Sketch2" along normal up to surface (45 mm away)
properties part number "Reinforcer"
